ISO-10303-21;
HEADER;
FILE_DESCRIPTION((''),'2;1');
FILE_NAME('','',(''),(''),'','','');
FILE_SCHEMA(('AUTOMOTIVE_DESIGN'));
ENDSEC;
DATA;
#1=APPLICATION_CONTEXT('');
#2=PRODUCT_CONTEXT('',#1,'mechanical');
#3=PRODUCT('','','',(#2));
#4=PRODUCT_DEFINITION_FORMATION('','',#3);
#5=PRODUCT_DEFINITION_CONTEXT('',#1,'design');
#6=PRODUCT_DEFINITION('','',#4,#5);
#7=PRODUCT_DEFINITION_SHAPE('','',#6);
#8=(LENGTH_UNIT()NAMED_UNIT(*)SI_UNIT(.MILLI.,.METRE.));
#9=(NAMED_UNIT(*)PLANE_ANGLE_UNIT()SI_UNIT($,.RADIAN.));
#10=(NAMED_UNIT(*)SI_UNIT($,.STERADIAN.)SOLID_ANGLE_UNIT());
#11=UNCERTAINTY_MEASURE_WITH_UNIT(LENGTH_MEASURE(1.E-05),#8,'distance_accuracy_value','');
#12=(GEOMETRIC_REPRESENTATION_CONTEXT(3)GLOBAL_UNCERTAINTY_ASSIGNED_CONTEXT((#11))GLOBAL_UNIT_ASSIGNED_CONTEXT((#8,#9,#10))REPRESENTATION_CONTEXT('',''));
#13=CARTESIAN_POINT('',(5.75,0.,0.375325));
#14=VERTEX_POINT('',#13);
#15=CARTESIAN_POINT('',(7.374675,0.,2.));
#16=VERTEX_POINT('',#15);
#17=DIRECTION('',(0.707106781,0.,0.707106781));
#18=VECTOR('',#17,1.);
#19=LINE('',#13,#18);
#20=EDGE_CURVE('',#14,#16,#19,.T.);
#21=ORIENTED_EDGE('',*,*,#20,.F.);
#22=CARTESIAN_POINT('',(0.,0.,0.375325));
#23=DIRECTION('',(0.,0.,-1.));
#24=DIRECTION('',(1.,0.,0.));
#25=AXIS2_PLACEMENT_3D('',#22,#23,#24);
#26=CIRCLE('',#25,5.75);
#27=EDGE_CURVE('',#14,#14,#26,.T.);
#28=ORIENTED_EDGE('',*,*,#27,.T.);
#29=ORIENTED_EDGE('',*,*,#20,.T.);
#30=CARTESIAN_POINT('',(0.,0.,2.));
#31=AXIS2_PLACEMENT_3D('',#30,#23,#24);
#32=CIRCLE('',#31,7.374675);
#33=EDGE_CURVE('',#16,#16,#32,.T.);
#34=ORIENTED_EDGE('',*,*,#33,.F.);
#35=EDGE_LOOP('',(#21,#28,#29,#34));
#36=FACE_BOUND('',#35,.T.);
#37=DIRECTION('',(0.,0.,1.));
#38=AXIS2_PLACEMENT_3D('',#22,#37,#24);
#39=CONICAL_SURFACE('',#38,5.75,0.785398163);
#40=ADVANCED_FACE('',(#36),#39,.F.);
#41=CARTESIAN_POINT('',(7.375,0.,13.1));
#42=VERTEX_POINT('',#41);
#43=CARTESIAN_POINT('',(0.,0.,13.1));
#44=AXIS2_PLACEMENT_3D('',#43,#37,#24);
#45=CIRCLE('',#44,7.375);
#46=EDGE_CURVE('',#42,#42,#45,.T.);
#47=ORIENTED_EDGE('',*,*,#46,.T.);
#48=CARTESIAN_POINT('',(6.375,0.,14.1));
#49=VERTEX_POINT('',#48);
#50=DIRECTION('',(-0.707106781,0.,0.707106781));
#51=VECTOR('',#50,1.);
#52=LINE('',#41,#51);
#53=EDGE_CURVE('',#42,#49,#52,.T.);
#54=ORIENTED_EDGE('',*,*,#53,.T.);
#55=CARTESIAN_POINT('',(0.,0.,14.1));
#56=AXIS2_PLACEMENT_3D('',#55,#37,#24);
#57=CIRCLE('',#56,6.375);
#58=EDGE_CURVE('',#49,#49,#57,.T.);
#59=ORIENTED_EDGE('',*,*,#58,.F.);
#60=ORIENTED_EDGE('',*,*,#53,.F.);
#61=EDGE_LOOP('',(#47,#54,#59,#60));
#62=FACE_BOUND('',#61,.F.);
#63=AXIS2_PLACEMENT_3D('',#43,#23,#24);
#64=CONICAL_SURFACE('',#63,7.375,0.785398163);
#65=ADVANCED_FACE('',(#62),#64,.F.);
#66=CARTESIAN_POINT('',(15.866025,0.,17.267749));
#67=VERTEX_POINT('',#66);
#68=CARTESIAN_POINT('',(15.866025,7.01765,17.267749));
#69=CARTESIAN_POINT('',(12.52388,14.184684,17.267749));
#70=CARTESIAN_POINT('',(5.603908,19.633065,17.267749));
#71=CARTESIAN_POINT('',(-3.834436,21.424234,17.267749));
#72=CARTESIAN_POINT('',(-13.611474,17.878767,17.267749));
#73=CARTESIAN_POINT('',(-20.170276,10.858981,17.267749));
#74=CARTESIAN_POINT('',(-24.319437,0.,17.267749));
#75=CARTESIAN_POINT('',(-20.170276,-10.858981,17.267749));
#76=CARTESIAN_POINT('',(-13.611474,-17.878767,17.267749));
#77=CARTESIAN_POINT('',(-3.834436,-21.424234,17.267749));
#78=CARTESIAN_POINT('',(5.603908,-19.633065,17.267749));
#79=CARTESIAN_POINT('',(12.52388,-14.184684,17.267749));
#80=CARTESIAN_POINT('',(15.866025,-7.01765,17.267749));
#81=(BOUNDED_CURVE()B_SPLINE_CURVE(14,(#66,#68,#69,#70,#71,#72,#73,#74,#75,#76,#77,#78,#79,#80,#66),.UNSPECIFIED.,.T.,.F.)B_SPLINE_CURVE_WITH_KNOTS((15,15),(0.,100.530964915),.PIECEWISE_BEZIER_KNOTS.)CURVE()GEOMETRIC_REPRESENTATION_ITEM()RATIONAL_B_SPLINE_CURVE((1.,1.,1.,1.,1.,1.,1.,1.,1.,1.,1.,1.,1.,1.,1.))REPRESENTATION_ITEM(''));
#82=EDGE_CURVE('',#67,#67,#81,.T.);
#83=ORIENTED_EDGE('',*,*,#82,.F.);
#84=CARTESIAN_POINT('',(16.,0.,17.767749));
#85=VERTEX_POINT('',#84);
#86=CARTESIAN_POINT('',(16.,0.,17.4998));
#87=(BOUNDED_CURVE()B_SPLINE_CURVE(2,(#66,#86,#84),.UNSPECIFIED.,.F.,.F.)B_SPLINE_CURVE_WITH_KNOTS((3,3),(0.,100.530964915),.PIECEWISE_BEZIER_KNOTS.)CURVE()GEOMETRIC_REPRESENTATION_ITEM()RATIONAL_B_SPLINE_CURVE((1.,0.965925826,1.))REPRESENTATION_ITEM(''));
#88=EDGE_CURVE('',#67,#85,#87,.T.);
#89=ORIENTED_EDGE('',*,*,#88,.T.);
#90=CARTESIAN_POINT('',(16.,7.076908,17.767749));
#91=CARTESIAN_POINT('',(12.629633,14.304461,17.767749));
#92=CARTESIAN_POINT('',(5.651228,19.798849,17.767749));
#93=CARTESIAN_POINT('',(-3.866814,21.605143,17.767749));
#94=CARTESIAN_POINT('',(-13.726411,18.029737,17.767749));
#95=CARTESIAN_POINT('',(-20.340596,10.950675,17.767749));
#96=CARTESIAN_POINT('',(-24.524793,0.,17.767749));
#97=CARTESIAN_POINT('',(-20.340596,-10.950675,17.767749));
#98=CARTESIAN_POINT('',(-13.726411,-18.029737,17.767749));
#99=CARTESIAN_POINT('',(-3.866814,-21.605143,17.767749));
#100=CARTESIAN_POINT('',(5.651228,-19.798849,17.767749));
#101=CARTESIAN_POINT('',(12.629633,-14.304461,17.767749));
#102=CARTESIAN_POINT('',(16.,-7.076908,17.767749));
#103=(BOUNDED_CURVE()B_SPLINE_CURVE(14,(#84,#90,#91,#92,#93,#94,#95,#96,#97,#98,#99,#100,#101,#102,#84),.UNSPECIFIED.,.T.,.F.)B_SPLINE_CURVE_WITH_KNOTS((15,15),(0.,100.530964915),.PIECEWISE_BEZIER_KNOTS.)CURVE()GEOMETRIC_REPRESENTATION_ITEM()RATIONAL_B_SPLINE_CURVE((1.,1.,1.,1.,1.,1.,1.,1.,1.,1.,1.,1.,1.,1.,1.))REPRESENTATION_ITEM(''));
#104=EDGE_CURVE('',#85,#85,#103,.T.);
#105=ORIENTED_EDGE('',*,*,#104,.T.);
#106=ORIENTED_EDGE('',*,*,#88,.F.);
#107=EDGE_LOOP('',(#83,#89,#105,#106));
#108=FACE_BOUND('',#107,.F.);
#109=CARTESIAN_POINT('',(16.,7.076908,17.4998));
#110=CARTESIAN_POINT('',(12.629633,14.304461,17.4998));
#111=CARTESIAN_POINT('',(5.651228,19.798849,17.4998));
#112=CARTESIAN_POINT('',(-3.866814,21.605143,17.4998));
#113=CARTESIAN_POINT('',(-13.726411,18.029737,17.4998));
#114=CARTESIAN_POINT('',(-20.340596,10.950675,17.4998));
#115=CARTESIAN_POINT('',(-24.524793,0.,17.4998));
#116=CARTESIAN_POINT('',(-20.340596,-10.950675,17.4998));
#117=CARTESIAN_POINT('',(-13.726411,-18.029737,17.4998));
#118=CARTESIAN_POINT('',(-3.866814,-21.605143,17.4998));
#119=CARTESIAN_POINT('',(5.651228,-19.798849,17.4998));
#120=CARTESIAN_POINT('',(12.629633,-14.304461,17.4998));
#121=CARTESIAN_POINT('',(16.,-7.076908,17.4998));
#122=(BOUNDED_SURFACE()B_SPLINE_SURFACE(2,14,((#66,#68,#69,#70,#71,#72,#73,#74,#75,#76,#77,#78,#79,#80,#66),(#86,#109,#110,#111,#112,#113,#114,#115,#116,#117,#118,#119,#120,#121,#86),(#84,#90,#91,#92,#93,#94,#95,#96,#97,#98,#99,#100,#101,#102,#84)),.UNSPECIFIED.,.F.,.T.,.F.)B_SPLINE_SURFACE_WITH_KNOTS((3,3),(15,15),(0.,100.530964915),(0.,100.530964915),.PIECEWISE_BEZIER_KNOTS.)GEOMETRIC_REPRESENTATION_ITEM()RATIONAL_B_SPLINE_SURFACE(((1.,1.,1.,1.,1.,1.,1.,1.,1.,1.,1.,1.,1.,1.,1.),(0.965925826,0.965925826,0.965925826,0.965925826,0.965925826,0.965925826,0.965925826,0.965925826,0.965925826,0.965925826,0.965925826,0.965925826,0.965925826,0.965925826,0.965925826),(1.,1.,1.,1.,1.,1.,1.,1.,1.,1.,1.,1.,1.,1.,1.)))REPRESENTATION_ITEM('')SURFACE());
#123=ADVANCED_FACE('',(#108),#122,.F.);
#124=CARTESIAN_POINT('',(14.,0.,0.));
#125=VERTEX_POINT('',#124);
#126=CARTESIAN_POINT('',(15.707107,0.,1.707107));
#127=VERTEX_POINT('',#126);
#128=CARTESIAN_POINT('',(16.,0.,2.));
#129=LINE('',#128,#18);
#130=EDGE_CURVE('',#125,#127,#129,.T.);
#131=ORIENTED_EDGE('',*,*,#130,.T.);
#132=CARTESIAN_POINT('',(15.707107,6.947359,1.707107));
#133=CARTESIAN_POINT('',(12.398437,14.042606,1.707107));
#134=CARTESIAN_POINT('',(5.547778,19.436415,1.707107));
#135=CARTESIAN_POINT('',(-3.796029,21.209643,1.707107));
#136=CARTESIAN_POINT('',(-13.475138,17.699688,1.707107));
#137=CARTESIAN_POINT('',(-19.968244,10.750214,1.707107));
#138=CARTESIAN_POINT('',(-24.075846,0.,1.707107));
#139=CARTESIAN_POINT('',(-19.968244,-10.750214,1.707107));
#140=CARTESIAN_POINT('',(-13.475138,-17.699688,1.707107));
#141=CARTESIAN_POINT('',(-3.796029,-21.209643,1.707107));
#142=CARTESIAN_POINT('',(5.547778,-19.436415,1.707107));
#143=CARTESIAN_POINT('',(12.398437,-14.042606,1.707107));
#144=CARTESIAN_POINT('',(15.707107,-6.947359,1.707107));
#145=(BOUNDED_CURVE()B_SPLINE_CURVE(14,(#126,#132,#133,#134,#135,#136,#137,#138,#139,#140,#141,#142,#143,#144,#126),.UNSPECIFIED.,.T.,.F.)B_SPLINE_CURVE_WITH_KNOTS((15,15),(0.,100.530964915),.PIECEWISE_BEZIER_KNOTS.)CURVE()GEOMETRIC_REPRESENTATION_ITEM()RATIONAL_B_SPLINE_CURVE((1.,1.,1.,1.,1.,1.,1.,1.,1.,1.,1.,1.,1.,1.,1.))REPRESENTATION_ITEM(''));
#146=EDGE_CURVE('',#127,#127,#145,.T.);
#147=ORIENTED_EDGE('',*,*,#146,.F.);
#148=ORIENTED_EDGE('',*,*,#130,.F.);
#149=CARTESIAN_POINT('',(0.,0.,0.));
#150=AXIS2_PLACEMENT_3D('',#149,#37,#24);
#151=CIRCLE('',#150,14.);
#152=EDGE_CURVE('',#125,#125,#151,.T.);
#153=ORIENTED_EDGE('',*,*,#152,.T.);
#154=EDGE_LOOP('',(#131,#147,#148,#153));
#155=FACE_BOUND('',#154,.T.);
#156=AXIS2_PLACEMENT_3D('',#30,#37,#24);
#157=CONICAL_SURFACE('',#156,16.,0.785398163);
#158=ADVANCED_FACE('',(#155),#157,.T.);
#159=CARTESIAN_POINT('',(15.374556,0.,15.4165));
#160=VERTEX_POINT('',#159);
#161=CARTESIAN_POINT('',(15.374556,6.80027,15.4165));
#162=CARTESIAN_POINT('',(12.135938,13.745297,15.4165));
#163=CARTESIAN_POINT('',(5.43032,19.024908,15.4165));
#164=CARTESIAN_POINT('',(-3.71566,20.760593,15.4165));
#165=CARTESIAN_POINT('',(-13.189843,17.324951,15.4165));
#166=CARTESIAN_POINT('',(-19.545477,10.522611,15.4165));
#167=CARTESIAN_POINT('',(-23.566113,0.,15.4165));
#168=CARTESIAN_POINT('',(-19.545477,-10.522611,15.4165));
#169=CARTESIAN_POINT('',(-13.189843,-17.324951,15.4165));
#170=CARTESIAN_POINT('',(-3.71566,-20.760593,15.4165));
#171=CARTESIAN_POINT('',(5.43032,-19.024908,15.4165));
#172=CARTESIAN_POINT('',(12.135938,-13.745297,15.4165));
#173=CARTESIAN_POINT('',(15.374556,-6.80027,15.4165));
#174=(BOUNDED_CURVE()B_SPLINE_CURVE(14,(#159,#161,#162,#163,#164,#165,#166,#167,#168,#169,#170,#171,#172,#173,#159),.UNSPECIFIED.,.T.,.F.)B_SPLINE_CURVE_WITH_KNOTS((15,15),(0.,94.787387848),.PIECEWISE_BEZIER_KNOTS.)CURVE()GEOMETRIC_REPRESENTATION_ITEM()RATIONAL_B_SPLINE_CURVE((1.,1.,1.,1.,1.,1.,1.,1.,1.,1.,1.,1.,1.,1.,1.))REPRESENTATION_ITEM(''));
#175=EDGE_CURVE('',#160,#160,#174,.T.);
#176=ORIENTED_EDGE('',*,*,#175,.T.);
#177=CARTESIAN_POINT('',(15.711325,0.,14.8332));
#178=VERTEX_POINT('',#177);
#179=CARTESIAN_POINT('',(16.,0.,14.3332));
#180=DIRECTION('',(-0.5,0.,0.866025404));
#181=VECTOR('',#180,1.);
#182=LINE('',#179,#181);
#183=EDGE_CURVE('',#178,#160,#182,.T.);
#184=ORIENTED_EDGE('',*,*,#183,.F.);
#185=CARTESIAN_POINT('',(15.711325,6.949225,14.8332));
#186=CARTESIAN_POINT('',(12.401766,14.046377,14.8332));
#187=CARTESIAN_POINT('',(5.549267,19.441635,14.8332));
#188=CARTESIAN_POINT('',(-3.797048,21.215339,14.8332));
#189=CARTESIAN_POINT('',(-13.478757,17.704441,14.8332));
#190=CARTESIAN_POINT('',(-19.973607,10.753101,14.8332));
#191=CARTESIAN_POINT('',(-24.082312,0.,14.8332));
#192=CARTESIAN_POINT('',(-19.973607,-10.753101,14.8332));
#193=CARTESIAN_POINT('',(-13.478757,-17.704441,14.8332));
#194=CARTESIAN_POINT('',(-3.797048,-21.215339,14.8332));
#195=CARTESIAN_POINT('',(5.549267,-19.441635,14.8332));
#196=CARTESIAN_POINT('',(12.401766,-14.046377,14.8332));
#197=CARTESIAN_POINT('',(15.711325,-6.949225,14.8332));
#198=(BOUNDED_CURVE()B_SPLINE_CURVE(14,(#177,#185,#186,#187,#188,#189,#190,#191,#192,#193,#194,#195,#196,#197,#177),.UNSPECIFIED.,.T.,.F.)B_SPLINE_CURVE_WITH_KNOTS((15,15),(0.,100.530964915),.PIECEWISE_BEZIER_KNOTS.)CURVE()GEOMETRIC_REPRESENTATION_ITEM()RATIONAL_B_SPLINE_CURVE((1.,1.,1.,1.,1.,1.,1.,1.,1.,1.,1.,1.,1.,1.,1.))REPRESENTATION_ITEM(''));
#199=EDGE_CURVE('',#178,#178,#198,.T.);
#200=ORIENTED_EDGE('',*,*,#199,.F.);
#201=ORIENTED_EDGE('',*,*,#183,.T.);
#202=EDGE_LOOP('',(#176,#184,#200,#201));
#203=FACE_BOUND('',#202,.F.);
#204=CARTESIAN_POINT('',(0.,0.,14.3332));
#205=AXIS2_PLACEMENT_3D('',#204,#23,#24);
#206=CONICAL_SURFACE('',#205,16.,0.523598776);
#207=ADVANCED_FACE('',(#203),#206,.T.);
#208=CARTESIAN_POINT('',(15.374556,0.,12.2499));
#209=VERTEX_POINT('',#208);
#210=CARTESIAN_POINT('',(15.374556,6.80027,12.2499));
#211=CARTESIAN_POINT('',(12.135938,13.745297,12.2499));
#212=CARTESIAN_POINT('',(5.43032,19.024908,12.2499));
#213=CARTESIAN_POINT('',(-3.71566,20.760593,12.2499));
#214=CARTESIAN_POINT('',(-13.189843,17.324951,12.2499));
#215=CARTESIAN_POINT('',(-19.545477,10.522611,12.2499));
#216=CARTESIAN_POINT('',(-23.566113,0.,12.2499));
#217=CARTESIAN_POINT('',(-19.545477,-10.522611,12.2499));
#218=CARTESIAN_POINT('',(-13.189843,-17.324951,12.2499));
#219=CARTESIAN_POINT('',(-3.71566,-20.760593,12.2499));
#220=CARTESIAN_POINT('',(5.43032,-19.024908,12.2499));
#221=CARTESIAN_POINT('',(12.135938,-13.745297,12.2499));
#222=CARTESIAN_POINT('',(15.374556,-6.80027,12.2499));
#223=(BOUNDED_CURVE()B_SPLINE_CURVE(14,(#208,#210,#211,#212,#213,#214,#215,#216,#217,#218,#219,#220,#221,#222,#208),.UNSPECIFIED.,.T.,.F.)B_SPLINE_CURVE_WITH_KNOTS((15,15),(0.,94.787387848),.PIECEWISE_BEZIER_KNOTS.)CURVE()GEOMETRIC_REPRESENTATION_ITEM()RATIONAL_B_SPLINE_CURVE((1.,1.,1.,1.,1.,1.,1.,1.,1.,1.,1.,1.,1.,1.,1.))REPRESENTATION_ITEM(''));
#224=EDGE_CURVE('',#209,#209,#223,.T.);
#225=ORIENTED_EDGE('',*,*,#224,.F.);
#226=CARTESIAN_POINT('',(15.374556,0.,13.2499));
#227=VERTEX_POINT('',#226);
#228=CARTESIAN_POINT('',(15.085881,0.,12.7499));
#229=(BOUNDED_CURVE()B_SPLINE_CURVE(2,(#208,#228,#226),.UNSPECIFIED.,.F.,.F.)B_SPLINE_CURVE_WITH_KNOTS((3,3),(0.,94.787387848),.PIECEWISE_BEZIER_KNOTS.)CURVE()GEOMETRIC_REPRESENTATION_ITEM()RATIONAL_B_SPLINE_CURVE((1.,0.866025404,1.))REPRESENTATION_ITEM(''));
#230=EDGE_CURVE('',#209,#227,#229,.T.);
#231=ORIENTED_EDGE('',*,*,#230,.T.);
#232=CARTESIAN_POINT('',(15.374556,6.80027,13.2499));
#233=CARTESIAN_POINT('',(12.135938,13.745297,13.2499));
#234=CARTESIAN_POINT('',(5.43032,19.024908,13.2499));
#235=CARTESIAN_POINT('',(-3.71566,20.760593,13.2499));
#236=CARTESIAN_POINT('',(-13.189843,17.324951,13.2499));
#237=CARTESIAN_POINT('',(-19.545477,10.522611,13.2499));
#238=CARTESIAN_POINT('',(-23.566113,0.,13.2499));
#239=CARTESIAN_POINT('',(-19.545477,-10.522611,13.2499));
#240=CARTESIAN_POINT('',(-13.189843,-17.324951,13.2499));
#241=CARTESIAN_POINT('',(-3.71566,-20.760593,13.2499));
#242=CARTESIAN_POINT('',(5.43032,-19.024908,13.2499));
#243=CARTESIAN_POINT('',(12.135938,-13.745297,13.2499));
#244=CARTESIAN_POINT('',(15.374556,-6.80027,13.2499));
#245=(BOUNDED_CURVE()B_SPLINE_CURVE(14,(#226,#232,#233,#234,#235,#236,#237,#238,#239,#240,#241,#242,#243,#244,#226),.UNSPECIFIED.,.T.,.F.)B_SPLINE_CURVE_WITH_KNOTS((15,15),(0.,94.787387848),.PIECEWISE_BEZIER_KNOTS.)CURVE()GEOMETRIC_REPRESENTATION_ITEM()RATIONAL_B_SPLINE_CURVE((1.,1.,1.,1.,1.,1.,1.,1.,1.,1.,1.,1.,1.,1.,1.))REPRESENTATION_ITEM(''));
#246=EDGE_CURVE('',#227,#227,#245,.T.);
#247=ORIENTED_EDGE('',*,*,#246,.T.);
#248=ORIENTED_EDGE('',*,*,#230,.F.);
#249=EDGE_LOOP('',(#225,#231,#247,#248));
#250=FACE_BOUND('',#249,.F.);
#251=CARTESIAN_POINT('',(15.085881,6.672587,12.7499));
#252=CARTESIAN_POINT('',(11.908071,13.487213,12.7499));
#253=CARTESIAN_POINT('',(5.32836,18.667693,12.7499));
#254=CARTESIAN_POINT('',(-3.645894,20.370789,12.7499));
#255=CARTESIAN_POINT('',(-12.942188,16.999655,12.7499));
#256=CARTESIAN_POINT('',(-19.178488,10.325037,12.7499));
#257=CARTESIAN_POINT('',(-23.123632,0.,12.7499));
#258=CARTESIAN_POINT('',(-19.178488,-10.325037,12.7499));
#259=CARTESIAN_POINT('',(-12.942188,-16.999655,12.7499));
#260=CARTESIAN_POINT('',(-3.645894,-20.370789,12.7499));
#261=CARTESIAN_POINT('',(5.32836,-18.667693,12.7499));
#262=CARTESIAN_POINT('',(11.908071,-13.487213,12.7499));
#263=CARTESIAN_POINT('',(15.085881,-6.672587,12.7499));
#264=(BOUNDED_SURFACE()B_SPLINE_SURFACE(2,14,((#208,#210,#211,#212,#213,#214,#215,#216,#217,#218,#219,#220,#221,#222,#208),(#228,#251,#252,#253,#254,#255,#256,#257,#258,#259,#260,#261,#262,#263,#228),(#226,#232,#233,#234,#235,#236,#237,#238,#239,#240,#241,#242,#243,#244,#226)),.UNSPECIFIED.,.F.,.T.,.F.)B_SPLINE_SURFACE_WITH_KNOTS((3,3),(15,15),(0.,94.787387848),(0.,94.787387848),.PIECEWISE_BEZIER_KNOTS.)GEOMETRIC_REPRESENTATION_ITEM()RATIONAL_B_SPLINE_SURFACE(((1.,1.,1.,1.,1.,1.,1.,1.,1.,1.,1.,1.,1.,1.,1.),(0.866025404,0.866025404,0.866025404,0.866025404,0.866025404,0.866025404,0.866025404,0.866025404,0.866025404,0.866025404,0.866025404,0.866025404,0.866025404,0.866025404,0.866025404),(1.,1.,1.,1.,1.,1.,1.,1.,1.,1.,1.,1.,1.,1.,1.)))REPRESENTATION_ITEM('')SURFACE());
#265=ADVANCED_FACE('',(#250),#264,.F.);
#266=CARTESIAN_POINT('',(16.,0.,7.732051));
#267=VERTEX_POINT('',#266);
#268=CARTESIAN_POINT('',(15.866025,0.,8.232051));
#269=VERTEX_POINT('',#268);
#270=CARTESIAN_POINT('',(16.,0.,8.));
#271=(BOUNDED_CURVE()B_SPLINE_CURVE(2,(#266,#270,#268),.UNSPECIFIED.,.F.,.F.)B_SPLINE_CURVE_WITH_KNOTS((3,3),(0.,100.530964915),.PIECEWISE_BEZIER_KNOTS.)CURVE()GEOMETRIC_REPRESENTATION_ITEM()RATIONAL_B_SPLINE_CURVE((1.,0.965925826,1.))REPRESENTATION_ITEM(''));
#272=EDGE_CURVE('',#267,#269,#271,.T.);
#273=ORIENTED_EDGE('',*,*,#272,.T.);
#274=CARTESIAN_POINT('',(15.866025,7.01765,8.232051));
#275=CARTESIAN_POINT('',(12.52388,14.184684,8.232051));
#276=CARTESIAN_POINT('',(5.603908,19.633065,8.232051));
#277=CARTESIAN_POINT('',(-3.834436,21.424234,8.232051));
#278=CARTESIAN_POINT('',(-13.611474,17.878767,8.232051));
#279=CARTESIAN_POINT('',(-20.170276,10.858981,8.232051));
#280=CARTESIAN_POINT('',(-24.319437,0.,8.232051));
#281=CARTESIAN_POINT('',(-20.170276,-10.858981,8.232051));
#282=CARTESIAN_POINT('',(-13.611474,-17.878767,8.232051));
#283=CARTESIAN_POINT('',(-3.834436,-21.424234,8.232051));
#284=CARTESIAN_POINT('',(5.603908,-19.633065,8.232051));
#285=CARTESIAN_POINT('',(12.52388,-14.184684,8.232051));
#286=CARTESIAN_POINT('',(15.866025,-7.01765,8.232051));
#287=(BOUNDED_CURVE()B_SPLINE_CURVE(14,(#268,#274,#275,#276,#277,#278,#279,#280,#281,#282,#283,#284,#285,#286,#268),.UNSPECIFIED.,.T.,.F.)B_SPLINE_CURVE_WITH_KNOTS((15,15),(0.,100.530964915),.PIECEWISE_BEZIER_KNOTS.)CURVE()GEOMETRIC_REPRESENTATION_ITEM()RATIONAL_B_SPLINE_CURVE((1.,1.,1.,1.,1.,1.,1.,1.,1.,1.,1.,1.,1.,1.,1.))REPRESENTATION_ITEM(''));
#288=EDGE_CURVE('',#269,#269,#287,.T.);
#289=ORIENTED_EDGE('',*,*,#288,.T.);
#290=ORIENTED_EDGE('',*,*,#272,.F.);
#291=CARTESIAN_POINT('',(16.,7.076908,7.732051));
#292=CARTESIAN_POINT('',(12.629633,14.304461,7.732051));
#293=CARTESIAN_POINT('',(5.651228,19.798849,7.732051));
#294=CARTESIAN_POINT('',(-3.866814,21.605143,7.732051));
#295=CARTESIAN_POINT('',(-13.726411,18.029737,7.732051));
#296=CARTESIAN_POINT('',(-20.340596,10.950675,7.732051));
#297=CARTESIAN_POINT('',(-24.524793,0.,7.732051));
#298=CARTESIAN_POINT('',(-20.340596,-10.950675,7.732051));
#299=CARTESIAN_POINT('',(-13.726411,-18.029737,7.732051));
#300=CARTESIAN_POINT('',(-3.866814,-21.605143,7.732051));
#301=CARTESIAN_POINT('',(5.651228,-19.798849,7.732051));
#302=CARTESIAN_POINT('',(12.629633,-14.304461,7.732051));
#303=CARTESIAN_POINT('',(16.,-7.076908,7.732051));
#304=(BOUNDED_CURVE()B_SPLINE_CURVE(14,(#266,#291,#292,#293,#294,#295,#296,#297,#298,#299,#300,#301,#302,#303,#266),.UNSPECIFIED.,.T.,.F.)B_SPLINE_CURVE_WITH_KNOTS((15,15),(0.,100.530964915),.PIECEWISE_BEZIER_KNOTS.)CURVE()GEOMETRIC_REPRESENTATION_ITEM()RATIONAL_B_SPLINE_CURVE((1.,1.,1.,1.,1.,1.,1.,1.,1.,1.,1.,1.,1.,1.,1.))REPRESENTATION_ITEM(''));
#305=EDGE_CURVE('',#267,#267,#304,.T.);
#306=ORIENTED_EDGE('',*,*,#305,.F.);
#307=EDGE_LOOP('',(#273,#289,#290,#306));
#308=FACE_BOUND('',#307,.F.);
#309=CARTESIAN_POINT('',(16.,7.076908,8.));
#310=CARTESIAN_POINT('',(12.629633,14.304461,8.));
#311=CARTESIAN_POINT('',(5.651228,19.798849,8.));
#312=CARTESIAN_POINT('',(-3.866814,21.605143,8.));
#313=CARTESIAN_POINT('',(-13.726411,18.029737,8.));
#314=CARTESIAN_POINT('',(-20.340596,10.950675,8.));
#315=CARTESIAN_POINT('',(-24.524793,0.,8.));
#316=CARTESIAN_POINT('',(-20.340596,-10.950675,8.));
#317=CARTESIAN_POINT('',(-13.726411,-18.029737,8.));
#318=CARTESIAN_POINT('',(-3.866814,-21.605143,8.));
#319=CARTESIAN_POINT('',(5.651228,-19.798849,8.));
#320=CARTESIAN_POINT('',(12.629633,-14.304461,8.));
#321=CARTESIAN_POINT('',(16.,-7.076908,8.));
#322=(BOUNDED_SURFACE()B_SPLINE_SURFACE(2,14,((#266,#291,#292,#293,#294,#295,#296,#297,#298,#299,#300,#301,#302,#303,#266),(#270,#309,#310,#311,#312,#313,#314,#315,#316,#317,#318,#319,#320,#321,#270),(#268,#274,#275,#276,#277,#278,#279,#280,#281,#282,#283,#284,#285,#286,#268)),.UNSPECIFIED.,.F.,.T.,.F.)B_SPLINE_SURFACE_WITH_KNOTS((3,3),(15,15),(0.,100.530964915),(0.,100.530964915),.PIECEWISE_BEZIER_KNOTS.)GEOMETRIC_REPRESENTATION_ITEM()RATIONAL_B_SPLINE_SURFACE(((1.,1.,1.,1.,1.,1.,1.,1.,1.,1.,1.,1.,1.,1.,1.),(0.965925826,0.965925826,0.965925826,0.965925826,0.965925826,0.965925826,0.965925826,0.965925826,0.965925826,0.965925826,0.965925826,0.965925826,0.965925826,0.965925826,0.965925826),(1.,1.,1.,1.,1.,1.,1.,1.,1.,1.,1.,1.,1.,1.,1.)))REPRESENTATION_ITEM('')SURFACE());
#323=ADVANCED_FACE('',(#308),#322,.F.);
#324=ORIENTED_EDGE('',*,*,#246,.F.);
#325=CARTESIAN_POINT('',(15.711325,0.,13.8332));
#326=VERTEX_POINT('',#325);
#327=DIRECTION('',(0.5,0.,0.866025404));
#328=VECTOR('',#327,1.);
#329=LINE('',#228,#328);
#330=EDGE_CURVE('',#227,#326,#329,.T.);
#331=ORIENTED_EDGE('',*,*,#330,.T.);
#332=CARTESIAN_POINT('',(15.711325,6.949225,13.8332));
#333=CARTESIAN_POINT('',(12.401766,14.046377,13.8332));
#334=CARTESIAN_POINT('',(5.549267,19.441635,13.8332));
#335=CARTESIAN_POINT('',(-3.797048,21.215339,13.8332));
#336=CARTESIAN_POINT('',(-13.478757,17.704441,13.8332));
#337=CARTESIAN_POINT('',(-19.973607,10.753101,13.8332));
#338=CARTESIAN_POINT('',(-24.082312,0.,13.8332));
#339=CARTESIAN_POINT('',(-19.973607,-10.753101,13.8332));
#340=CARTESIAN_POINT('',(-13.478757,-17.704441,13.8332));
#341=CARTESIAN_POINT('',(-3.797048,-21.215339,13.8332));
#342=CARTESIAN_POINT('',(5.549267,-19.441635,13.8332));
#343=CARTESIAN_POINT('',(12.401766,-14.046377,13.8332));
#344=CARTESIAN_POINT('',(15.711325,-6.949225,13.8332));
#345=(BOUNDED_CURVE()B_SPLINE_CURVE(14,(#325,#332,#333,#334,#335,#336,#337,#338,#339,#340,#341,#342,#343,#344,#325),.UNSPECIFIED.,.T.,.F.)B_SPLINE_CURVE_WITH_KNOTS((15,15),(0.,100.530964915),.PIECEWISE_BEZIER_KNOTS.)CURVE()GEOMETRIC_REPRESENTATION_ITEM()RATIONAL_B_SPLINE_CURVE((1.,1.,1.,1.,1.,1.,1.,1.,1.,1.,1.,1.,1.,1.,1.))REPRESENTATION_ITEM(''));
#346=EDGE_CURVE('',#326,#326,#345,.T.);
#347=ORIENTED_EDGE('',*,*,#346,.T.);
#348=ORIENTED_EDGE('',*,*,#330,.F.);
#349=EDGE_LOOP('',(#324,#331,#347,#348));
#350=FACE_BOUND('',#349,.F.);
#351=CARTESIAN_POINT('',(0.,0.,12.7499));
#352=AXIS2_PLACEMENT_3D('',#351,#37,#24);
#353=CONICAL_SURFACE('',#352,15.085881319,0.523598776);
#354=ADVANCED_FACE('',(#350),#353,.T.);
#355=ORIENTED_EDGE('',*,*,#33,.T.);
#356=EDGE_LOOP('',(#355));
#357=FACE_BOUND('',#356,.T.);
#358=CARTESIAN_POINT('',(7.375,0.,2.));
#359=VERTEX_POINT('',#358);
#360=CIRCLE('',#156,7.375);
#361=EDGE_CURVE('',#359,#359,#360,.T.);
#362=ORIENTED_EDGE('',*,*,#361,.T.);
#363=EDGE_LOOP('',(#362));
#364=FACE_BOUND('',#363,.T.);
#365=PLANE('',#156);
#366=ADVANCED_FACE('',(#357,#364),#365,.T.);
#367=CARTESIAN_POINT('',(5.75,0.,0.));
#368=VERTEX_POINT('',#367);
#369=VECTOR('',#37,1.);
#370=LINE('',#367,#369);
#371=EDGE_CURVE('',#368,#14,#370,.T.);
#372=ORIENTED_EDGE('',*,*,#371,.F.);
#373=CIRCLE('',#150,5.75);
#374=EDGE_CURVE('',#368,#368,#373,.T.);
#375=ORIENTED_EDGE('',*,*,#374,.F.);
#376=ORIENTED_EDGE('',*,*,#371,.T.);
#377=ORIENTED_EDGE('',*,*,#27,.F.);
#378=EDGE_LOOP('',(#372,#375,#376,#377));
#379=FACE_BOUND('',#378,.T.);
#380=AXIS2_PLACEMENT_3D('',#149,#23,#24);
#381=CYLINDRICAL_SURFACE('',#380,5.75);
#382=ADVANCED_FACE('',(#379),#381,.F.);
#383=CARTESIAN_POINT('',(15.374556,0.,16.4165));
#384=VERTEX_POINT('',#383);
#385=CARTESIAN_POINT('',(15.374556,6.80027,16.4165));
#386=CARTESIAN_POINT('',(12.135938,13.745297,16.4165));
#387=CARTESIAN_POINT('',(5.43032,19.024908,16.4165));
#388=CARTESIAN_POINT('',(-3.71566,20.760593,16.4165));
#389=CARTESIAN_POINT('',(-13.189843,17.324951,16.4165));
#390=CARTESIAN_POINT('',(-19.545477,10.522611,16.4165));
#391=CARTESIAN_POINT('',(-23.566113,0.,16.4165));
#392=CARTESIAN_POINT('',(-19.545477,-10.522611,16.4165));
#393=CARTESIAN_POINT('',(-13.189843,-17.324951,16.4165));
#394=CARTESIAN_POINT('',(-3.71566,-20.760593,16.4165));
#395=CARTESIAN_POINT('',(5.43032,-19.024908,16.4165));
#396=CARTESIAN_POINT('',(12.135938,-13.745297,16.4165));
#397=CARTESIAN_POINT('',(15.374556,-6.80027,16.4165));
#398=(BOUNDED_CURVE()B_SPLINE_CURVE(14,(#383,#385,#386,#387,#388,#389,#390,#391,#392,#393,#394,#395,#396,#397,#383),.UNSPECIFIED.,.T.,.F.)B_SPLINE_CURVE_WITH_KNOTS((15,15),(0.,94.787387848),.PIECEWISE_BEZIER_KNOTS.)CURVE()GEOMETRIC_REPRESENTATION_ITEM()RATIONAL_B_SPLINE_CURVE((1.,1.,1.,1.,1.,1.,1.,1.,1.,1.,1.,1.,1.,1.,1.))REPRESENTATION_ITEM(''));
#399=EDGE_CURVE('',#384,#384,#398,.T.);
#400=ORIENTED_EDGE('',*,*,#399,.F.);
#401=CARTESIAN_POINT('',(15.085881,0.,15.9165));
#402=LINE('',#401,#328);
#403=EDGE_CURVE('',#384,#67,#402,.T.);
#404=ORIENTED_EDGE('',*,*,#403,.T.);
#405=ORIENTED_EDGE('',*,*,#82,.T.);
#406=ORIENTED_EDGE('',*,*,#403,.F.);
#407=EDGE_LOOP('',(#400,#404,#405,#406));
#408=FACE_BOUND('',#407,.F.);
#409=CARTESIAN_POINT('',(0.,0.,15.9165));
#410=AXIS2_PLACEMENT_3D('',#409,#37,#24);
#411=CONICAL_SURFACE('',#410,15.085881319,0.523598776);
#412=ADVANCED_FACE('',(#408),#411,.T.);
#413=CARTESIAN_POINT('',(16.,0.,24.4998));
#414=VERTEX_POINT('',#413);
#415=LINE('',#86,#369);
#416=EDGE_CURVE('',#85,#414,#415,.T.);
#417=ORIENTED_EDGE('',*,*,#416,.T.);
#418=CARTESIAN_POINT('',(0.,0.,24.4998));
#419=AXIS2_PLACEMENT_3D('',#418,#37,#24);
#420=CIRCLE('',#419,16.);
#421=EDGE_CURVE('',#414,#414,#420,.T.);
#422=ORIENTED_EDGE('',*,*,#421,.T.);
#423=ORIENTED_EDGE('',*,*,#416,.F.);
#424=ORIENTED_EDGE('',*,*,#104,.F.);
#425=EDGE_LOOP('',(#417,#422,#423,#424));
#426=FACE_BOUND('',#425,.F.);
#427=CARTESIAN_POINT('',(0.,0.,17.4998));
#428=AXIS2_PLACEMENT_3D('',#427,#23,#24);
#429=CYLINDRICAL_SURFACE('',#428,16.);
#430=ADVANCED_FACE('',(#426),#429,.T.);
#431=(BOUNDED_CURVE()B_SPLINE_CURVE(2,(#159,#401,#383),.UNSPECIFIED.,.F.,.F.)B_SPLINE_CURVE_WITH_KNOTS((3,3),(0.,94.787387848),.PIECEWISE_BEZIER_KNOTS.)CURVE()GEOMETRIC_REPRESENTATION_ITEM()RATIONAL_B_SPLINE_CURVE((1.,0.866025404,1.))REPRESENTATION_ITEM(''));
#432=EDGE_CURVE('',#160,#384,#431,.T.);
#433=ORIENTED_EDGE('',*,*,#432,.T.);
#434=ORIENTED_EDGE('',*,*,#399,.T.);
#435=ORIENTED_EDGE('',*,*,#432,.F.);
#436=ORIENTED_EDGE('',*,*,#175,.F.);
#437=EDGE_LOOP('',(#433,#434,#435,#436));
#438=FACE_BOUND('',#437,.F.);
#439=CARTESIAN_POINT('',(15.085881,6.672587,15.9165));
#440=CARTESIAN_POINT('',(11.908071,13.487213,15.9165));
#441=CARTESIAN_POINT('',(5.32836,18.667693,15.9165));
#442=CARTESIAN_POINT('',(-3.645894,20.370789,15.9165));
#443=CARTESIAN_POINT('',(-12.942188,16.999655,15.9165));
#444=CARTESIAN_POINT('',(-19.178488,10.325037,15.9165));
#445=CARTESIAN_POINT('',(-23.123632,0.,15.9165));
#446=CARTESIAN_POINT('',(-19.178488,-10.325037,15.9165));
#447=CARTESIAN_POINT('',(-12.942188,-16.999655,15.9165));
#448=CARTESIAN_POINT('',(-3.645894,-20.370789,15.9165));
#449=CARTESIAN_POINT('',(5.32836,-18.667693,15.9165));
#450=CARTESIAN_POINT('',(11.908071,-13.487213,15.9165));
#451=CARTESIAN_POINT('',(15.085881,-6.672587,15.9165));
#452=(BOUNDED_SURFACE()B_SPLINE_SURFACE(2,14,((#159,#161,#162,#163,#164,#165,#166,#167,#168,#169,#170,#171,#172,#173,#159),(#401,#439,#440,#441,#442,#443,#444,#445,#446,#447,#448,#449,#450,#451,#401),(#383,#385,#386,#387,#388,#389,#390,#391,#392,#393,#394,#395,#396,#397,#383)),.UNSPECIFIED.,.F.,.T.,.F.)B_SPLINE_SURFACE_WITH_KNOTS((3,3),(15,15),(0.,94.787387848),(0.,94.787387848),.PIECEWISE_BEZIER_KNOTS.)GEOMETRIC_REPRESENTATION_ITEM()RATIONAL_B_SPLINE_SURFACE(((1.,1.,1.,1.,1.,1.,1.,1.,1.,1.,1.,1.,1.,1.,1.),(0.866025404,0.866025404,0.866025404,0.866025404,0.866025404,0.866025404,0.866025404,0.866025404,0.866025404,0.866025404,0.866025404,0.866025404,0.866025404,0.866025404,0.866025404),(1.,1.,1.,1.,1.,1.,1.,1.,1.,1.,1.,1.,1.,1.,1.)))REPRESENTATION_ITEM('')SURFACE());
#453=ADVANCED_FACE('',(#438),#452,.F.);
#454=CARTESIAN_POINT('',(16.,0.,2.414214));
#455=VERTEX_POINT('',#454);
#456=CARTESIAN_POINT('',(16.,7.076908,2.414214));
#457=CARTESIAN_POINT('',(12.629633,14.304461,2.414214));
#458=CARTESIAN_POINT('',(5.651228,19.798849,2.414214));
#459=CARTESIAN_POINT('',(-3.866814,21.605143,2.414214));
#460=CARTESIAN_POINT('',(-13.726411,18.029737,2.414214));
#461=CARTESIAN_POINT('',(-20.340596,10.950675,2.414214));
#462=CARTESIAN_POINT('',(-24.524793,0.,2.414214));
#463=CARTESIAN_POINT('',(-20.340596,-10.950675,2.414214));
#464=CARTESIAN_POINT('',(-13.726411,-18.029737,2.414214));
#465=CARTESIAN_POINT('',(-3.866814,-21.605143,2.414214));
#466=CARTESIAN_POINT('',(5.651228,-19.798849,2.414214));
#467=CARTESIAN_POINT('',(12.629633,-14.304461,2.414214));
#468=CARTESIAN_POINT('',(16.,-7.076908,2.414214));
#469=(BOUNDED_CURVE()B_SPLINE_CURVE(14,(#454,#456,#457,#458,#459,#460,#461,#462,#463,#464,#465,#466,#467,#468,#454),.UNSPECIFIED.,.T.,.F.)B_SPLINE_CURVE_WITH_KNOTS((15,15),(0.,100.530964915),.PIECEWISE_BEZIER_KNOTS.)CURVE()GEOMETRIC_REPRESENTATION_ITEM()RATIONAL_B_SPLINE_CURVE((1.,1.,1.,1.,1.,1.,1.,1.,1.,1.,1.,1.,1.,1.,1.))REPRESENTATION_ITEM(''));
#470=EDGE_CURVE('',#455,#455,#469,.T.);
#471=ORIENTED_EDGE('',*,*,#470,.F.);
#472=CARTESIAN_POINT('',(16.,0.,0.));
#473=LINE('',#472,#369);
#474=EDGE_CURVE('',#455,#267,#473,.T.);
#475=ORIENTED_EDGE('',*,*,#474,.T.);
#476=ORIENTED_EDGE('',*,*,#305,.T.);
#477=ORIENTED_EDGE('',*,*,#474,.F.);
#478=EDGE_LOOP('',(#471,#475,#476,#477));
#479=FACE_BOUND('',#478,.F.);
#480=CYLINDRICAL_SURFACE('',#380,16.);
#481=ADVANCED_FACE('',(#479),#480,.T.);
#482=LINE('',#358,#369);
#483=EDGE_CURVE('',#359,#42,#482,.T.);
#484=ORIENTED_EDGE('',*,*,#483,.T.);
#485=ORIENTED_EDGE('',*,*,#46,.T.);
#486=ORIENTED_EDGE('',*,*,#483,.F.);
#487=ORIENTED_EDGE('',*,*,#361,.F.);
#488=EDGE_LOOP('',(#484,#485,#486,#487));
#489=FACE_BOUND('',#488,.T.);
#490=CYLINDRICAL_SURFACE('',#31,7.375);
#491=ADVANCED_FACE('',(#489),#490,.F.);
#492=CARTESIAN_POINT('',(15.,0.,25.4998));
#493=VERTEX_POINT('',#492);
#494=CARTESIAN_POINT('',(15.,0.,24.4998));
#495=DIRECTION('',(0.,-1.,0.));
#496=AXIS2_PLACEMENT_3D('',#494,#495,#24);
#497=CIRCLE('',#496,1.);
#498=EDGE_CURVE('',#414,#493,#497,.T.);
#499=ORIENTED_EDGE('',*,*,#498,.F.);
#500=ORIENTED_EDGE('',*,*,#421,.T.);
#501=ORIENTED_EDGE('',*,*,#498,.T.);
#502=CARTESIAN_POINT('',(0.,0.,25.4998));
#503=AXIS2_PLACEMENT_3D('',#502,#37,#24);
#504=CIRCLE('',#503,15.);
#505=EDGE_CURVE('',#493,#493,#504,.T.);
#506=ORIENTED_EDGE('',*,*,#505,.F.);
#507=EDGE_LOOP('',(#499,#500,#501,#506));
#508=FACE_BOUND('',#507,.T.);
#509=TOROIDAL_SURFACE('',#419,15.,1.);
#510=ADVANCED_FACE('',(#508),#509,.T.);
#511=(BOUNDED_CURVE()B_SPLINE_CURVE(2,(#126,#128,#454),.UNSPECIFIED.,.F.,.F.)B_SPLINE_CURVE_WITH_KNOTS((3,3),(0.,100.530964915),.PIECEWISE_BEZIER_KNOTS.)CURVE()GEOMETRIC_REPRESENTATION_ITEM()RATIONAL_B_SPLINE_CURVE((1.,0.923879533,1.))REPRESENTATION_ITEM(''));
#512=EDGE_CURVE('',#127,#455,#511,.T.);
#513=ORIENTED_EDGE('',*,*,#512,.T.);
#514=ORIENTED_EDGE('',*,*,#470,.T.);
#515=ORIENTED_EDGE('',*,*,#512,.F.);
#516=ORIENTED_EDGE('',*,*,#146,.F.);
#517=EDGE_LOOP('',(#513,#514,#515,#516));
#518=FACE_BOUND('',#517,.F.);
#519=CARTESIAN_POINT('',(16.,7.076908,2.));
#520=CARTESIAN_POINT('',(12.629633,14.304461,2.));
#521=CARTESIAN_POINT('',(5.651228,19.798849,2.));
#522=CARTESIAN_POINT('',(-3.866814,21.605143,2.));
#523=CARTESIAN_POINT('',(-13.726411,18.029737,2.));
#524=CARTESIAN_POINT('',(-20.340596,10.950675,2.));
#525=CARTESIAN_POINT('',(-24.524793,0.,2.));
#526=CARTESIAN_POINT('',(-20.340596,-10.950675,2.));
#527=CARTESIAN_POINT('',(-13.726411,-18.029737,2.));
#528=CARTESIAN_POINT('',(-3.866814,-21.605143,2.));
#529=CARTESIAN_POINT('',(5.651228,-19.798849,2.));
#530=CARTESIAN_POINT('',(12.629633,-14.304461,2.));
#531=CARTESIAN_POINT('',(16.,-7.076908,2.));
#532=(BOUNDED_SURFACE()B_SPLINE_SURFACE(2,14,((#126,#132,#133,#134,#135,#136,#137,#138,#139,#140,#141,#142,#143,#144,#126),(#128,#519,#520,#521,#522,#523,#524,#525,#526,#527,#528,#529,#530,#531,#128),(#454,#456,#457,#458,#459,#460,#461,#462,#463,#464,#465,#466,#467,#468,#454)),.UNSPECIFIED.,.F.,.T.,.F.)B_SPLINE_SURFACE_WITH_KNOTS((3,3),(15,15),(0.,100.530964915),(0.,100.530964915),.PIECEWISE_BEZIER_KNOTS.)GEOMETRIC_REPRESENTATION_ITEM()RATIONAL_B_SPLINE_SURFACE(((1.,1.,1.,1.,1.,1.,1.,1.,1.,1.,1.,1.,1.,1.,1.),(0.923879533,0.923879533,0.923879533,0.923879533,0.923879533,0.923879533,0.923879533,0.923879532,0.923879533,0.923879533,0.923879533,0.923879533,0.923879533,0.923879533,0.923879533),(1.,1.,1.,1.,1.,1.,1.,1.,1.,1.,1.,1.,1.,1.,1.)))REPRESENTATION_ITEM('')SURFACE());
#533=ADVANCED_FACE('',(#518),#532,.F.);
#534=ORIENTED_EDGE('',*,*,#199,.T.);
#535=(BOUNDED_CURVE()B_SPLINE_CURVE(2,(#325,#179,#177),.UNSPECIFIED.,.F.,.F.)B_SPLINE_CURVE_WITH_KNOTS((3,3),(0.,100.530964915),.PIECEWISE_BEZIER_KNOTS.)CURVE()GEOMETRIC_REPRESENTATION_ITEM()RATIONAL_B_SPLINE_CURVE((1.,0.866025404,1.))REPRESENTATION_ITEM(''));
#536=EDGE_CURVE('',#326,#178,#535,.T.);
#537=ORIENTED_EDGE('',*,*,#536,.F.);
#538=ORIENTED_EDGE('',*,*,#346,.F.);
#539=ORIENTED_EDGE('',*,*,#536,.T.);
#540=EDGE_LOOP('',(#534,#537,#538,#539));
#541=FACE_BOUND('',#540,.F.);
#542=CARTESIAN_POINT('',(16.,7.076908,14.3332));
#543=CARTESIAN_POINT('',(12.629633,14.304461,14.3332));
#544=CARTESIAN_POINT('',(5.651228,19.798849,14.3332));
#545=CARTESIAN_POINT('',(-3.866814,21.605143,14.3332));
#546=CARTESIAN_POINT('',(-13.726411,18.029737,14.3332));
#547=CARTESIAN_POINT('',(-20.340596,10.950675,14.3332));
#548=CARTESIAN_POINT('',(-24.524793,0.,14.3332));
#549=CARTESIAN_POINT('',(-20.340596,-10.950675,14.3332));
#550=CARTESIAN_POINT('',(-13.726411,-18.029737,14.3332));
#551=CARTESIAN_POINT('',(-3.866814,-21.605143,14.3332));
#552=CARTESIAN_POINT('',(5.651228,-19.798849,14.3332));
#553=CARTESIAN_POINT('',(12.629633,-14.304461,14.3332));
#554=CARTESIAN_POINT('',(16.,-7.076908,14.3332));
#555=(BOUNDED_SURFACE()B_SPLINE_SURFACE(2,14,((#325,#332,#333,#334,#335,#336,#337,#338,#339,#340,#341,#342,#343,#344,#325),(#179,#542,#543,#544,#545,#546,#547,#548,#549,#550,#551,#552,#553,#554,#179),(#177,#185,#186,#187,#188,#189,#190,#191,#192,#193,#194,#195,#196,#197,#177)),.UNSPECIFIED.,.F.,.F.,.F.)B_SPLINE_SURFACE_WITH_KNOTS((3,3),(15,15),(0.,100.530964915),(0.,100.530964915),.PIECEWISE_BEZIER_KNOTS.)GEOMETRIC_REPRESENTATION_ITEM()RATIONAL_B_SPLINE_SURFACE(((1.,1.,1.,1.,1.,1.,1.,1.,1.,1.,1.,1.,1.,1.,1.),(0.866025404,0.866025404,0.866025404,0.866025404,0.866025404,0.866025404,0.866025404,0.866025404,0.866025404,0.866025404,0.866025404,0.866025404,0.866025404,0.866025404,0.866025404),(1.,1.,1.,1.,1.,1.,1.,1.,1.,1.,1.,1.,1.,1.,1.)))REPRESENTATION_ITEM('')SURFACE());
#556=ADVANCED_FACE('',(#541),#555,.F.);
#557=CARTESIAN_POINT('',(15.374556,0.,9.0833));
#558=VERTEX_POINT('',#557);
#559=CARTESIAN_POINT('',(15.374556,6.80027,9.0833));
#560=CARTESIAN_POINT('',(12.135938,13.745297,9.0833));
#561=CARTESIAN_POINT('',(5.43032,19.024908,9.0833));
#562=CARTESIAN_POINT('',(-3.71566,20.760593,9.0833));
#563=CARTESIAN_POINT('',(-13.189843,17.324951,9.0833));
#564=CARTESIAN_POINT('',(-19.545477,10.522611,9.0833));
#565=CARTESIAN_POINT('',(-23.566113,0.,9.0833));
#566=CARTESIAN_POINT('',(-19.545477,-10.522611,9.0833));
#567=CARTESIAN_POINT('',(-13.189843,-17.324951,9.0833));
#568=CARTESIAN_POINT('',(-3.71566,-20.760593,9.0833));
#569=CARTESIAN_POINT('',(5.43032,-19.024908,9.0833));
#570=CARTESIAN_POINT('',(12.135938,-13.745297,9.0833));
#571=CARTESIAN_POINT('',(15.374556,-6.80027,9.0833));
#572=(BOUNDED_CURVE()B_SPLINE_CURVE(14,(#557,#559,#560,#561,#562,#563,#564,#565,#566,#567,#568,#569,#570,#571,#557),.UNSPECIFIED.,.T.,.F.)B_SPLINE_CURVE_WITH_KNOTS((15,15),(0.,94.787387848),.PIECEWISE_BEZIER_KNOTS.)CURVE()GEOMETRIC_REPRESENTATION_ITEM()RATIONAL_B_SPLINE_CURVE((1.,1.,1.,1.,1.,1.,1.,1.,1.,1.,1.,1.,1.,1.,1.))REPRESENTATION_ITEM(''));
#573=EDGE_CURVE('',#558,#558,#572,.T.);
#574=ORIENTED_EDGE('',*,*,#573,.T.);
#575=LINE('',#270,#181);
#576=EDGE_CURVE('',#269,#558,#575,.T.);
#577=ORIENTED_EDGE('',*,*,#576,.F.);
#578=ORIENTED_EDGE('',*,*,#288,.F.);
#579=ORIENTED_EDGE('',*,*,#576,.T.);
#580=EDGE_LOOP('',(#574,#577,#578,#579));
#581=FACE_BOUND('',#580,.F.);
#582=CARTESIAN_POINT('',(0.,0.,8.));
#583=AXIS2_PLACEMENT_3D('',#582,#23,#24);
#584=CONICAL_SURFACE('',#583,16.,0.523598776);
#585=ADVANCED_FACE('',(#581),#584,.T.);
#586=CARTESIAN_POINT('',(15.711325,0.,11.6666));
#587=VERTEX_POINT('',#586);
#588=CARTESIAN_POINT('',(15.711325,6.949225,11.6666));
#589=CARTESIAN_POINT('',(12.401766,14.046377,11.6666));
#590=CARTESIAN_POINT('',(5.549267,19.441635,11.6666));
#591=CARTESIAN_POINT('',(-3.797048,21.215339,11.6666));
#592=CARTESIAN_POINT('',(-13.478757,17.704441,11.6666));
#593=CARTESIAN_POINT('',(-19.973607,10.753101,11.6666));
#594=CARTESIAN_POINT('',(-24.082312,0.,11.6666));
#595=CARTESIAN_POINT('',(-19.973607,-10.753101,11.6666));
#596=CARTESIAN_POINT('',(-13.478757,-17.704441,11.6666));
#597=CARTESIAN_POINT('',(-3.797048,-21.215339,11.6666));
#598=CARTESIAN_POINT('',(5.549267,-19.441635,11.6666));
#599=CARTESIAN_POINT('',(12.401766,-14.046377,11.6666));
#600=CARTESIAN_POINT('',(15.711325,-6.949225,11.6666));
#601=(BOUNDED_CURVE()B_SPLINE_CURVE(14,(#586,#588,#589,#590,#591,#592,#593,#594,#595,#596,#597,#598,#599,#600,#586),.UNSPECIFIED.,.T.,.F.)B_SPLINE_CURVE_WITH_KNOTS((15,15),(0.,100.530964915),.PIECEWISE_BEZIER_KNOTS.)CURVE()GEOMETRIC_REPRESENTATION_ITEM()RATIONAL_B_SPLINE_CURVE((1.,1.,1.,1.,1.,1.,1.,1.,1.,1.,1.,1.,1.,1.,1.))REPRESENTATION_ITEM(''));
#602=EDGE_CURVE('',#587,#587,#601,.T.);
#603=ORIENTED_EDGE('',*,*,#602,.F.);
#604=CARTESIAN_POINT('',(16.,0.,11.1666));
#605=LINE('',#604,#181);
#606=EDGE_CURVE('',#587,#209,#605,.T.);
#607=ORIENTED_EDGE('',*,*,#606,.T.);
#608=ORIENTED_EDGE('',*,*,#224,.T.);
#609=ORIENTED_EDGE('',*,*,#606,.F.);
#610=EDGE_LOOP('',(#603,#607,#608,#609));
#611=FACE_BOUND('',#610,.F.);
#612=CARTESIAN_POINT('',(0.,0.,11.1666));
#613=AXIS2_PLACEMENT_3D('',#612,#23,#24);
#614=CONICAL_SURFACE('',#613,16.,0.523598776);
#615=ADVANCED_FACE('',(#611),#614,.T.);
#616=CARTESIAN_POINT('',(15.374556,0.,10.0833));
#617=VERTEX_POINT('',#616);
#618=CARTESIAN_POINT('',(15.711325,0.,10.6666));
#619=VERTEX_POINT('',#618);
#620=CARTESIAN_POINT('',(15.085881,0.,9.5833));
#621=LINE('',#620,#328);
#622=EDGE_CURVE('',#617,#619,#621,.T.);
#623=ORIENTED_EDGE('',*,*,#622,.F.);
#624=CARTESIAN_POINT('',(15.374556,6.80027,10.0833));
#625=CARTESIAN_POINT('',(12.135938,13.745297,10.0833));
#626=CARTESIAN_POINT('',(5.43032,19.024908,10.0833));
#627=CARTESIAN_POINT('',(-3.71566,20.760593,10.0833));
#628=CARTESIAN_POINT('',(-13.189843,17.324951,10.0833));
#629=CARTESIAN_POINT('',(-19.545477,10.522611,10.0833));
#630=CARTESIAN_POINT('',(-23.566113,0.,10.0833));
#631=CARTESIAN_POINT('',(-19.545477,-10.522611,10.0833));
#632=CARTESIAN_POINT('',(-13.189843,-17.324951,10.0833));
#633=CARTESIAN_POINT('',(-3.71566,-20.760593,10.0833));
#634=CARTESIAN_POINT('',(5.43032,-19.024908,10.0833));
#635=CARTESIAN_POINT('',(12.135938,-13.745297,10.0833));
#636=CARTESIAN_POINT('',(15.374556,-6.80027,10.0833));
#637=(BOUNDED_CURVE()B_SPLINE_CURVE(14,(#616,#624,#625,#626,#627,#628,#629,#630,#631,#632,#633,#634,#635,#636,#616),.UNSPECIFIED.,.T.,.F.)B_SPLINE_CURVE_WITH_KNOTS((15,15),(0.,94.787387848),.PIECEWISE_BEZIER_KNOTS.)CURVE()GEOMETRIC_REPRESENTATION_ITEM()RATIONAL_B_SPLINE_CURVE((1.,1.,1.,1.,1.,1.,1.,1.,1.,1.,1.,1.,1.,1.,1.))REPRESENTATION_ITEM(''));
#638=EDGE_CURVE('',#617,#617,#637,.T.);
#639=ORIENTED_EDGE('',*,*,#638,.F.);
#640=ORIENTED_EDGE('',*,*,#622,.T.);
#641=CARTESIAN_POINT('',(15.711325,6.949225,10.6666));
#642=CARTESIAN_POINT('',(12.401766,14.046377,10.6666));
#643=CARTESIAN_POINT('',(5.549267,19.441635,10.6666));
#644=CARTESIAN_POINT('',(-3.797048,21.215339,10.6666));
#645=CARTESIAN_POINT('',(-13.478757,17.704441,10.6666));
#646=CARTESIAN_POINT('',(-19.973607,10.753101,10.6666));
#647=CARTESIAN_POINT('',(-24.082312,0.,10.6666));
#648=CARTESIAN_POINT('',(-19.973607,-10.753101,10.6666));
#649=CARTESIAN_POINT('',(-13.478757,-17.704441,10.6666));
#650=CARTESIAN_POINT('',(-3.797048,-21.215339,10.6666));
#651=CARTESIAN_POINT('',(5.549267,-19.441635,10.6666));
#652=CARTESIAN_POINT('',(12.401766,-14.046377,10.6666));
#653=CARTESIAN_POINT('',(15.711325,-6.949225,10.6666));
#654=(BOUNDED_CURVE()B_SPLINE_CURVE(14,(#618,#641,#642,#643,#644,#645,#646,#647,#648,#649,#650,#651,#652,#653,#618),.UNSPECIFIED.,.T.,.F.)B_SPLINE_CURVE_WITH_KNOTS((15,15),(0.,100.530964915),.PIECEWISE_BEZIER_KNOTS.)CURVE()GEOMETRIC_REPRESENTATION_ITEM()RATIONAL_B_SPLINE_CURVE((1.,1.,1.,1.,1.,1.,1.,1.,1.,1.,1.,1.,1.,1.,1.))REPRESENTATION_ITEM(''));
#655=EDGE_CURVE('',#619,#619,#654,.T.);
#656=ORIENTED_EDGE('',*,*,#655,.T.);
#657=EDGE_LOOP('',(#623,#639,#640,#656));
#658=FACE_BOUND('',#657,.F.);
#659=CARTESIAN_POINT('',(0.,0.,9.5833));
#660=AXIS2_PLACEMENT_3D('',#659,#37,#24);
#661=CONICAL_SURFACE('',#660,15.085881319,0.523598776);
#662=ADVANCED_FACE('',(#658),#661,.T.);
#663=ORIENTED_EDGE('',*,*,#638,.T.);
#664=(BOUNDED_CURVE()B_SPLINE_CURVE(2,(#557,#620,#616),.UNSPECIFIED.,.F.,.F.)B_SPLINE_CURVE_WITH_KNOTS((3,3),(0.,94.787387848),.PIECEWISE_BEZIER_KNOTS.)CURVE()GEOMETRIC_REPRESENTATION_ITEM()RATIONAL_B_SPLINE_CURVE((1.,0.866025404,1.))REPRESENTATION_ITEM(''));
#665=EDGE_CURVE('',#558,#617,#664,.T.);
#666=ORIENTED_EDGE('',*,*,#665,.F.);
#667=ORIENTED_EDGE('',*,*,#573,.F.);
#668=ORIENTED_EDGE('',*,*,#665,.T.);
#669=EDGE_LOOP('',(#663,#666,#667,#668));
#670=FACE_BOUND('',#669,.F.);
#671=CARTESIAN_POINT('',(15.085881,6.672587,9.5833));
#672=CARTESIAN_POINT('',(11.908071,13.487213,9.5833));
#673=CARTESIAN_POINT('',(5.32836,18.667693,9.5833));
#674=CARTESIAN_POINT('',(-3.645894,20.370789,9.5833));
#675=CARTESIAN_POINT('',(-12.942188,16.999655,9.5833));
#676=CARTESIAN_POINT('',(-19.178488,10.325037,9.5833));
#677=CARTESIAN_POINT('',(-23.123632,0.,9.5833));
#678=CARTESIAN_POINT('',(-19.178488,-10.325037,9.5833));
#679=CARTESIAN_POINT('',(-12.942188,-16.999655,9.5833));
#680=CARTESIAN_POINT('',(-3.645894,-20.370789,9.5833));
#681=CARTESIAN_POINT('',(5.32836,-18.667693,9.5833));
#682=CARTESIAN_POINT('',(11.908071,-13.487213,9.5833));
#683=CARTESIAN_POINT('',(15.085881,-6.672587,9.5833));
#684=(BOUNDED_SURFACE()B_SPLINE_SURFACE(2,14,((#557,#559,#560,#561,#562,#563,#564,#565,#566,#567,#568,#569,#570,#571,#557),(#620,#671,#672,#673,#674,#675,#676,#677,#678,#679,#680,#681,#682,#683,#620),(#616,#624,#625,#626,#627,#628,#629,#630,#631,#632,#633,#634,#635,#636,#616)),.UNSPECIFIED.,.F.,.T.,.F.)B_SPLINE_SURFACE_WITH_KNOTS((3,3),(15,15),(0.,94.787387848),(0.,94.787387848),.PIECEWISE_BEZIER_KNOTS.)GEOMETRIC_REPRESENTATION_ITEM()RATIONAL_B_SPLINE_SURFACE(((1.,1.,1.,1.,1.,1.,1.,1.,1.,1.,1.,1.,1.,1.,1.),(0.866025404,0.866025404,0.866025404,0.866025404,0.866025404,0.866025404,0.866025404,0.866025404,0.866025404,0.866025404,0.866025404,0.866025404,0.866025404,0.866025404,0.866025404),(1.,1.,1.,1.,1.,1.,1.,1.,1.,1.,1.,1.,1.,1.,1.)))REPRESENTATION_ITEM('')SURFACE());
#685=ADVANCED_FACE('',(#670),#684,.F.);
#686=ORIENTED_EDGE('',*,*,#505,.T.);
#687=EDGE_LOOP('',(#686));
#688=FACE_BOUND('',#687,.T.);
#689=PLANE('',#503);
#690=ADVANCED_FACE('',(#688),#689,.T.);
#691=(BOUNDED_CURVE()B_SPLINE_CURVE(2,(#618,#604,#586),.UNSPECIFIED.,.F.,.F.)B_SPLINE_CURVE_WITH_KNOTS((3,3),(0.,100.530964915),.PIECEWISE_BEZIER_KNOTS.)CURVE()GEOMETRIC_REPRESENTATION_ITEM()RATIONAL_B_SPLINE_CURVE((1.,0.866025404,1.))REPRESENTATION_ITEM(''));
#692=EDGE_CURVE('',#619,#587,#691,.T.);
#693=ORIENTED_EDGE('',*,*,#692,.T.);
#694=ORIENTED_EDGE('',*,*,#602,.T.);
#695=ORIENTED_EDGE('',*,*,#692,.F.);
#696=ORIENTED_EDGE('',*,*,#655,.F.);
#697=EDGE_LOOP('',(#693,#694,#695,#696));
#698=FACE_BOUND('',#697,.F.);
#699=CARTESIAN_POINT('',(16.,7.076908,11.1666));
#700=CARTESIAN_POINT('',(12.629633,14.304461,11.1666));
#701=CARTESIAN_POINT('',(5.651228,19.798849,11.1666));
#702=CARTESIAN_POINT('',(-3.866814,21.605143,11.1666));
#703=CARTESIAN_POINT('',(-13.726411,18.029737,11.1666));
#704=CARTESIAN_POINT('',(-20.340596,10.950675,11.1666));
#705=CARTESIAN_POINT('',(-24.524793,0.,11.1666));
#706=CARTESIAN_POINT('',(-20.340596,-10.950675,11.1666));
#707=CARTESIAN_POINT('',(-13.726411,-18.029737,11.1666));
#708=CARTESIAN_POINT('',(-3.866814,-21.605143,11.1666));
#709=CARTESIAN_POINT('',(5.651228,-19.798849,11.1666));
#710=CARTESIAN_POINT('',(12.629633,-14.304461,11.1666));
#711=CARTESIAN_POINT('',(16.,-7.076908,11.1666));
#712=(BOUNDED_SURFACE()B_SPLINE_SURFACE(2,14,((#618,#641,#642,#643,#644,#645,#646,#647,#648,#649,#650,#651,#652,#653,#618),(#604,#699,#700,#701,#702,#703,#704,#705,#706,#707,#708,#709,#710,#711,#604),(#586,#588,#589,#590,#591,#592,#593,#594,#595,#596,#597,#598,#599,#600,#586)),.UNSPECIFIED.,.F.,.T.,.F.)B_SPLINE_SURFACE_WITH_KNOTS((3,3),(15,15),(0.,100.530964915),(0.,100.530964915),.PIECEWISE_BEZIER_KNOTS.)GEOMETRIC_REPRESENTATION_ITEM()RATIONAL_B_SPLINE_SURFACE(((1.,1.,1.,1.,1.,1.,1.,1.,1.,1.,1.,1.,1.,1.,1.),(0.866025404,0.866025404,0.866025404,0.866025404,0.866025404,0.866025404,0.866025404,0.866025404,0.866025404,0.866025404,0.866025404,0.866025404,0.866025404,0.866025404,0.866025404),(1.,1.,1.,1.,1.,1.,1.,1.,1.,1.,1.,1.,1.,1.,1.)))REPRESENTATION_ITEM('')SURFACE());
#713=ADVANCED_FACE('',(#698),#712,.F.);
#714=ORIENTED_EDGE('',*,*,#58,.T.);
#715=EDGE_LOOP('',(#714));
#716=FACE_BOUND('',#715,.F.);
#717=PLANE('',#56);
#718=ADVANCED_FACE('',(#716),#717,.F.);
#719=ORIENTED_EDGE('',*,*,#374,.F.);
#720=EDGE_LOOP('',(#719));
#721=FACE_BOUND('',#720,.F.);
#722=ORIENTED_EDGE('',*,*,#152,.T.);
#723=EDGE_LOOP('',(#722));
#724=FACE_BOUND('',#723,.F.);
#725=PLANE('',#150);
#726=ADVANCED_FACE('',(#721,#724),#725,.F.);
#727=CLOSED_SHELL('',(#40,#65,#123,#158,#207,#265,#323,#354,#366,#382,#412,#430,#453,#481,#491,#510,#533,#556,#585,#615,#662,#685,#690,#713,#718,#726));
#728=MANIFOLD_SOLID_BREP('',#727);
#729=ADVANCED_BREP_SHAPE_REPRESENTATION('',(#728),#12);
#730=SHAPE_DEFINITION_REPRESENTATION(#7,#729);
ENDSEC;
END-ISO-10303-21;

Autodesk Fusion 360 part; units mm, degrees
sketch "Sketch1" plane through (0, 0, 0) normal (0, 0, 1) x (1, 0, 0)
  circle A0 centre (0, 0) radius 16
  circle A1 centre (0, 0) radius 5.75
  circle A2 centre (0, 0) radius 7.375
  dimension "d7" = 32
  dimension "d8" = 11.5
  dimension "d9" = 14.75
extrude "Extrude1" add sketch "Sketch1" along normal blind 8 contours A0 | A1 | A2
extrude "Extrude2" add 1 faces at (3.3126, -0.5422, 8) along direction (0, 0, 1) blind 1.5833 draft -30
extrude "Extrude3" add 1 faces at (4.1548, -2.8327, 9.5833) along direction (0, 0, 1) blind 1.5833 draft 30
extrude "Extrude4" add 1 faces at (3.3126, -0.5422, 11.1667) along direction (0, 0, 1) blind 1.5833 draft -30
extrude "Extrude5" add 1 faces at (4.1548, -2.8327, 12.75) along direction (0, 0, 1) blind 1.5833 draft 30
extrude "Extrude6" add 1 faces at (-4.6978, -3.7464, 14.3333) along direction (0, 0, 1) blind 1.5833 draft -30
extrude "Extrude7" add 1 faces at (-7.4207, -2.8415, 15.9167) along direction (0, 0, 1) blind 1.5833 draft 30
extrude "Extrude8" add 1 faces at (-4.6978, -3.7464, 17.5) along direction (0, 0, 1) blind 8
extrude "Extrude9" cut sketch "Sketch1" along normal blind 14.1 contours A1
extrude "Extrude10" cut sketch "Sketch1" along normal blind 12.1 from surface at 2 contours A1 | A2
chamfer "Chamfer1" distance 1.625 angle 45 1 edges at (-5.3609, -2.0793, 2)
chamfer "Chamfer2" distance 1 angle 45 1 edges at (-6.8759, -2.6669, 14.1)
chamfer "Chamfer2" distance 2 angle 45 1 edges at (-14.9172, -5.7858, 0)
fillet "Fillet1" radius 1 9 edges at (-14.9172, 5.7858, 14.3333) (-14.9172, 5.7858, 11.1667) (-14.065, 5.4553, 12.75) (-14.065, 5.4553, 15.9167) (-14.9172, 5.7858, 17.5) (-14.065, 5.4553, 9.5833) (-14.9172, -5.7858, 8) (-14.9172, 5.7858, 2) (-14.9172, -5.7858, 25.5)
equation "id = 11.5 mm"
equation "od = 32 mm"
equation "notchwidth = 14.75 mm"
equation "pegDepth = 10.1 mm"
equation "ridgeStart = 8 mm"
equation "ridgeHeight = 9.5 mm"
equation "d7 = od"
equation "d8 = id"
equation "d9 = notchwidth"
equation "d10 = ridgeStart"
equation "d12 = ridgeHeight / 6"
equation "d13 = -ridgeAngle"
equation "d14 = ridgeHeight / ridgeCount"
equation "d15 = ridgeAngle"
equation "ridgeCount = 6"
equation "ridgeAngle = 30 deg"
equation "d18 = ridgeHeight / ridgeCount"
equation "d19 = -ridgeAngle"
equation "d20 = ridgeHeight / ridgeCount"
equation "d21 = ridgeAngle"
equation "d22 = ridgeHeight / ridgeCount"
equation "d23 = -ridgeAngle"
equation "d24 = ridgeHeight / ridgeCount"
equation "d25 = ridgeAngle"
equation "d26 = ridgeStart"
equation "d28 = pegDepth + 4 mm"
equation "d31 = pegDepth + 2 mm"
equation "d33 = ( notchwidth - id ) / 2"
